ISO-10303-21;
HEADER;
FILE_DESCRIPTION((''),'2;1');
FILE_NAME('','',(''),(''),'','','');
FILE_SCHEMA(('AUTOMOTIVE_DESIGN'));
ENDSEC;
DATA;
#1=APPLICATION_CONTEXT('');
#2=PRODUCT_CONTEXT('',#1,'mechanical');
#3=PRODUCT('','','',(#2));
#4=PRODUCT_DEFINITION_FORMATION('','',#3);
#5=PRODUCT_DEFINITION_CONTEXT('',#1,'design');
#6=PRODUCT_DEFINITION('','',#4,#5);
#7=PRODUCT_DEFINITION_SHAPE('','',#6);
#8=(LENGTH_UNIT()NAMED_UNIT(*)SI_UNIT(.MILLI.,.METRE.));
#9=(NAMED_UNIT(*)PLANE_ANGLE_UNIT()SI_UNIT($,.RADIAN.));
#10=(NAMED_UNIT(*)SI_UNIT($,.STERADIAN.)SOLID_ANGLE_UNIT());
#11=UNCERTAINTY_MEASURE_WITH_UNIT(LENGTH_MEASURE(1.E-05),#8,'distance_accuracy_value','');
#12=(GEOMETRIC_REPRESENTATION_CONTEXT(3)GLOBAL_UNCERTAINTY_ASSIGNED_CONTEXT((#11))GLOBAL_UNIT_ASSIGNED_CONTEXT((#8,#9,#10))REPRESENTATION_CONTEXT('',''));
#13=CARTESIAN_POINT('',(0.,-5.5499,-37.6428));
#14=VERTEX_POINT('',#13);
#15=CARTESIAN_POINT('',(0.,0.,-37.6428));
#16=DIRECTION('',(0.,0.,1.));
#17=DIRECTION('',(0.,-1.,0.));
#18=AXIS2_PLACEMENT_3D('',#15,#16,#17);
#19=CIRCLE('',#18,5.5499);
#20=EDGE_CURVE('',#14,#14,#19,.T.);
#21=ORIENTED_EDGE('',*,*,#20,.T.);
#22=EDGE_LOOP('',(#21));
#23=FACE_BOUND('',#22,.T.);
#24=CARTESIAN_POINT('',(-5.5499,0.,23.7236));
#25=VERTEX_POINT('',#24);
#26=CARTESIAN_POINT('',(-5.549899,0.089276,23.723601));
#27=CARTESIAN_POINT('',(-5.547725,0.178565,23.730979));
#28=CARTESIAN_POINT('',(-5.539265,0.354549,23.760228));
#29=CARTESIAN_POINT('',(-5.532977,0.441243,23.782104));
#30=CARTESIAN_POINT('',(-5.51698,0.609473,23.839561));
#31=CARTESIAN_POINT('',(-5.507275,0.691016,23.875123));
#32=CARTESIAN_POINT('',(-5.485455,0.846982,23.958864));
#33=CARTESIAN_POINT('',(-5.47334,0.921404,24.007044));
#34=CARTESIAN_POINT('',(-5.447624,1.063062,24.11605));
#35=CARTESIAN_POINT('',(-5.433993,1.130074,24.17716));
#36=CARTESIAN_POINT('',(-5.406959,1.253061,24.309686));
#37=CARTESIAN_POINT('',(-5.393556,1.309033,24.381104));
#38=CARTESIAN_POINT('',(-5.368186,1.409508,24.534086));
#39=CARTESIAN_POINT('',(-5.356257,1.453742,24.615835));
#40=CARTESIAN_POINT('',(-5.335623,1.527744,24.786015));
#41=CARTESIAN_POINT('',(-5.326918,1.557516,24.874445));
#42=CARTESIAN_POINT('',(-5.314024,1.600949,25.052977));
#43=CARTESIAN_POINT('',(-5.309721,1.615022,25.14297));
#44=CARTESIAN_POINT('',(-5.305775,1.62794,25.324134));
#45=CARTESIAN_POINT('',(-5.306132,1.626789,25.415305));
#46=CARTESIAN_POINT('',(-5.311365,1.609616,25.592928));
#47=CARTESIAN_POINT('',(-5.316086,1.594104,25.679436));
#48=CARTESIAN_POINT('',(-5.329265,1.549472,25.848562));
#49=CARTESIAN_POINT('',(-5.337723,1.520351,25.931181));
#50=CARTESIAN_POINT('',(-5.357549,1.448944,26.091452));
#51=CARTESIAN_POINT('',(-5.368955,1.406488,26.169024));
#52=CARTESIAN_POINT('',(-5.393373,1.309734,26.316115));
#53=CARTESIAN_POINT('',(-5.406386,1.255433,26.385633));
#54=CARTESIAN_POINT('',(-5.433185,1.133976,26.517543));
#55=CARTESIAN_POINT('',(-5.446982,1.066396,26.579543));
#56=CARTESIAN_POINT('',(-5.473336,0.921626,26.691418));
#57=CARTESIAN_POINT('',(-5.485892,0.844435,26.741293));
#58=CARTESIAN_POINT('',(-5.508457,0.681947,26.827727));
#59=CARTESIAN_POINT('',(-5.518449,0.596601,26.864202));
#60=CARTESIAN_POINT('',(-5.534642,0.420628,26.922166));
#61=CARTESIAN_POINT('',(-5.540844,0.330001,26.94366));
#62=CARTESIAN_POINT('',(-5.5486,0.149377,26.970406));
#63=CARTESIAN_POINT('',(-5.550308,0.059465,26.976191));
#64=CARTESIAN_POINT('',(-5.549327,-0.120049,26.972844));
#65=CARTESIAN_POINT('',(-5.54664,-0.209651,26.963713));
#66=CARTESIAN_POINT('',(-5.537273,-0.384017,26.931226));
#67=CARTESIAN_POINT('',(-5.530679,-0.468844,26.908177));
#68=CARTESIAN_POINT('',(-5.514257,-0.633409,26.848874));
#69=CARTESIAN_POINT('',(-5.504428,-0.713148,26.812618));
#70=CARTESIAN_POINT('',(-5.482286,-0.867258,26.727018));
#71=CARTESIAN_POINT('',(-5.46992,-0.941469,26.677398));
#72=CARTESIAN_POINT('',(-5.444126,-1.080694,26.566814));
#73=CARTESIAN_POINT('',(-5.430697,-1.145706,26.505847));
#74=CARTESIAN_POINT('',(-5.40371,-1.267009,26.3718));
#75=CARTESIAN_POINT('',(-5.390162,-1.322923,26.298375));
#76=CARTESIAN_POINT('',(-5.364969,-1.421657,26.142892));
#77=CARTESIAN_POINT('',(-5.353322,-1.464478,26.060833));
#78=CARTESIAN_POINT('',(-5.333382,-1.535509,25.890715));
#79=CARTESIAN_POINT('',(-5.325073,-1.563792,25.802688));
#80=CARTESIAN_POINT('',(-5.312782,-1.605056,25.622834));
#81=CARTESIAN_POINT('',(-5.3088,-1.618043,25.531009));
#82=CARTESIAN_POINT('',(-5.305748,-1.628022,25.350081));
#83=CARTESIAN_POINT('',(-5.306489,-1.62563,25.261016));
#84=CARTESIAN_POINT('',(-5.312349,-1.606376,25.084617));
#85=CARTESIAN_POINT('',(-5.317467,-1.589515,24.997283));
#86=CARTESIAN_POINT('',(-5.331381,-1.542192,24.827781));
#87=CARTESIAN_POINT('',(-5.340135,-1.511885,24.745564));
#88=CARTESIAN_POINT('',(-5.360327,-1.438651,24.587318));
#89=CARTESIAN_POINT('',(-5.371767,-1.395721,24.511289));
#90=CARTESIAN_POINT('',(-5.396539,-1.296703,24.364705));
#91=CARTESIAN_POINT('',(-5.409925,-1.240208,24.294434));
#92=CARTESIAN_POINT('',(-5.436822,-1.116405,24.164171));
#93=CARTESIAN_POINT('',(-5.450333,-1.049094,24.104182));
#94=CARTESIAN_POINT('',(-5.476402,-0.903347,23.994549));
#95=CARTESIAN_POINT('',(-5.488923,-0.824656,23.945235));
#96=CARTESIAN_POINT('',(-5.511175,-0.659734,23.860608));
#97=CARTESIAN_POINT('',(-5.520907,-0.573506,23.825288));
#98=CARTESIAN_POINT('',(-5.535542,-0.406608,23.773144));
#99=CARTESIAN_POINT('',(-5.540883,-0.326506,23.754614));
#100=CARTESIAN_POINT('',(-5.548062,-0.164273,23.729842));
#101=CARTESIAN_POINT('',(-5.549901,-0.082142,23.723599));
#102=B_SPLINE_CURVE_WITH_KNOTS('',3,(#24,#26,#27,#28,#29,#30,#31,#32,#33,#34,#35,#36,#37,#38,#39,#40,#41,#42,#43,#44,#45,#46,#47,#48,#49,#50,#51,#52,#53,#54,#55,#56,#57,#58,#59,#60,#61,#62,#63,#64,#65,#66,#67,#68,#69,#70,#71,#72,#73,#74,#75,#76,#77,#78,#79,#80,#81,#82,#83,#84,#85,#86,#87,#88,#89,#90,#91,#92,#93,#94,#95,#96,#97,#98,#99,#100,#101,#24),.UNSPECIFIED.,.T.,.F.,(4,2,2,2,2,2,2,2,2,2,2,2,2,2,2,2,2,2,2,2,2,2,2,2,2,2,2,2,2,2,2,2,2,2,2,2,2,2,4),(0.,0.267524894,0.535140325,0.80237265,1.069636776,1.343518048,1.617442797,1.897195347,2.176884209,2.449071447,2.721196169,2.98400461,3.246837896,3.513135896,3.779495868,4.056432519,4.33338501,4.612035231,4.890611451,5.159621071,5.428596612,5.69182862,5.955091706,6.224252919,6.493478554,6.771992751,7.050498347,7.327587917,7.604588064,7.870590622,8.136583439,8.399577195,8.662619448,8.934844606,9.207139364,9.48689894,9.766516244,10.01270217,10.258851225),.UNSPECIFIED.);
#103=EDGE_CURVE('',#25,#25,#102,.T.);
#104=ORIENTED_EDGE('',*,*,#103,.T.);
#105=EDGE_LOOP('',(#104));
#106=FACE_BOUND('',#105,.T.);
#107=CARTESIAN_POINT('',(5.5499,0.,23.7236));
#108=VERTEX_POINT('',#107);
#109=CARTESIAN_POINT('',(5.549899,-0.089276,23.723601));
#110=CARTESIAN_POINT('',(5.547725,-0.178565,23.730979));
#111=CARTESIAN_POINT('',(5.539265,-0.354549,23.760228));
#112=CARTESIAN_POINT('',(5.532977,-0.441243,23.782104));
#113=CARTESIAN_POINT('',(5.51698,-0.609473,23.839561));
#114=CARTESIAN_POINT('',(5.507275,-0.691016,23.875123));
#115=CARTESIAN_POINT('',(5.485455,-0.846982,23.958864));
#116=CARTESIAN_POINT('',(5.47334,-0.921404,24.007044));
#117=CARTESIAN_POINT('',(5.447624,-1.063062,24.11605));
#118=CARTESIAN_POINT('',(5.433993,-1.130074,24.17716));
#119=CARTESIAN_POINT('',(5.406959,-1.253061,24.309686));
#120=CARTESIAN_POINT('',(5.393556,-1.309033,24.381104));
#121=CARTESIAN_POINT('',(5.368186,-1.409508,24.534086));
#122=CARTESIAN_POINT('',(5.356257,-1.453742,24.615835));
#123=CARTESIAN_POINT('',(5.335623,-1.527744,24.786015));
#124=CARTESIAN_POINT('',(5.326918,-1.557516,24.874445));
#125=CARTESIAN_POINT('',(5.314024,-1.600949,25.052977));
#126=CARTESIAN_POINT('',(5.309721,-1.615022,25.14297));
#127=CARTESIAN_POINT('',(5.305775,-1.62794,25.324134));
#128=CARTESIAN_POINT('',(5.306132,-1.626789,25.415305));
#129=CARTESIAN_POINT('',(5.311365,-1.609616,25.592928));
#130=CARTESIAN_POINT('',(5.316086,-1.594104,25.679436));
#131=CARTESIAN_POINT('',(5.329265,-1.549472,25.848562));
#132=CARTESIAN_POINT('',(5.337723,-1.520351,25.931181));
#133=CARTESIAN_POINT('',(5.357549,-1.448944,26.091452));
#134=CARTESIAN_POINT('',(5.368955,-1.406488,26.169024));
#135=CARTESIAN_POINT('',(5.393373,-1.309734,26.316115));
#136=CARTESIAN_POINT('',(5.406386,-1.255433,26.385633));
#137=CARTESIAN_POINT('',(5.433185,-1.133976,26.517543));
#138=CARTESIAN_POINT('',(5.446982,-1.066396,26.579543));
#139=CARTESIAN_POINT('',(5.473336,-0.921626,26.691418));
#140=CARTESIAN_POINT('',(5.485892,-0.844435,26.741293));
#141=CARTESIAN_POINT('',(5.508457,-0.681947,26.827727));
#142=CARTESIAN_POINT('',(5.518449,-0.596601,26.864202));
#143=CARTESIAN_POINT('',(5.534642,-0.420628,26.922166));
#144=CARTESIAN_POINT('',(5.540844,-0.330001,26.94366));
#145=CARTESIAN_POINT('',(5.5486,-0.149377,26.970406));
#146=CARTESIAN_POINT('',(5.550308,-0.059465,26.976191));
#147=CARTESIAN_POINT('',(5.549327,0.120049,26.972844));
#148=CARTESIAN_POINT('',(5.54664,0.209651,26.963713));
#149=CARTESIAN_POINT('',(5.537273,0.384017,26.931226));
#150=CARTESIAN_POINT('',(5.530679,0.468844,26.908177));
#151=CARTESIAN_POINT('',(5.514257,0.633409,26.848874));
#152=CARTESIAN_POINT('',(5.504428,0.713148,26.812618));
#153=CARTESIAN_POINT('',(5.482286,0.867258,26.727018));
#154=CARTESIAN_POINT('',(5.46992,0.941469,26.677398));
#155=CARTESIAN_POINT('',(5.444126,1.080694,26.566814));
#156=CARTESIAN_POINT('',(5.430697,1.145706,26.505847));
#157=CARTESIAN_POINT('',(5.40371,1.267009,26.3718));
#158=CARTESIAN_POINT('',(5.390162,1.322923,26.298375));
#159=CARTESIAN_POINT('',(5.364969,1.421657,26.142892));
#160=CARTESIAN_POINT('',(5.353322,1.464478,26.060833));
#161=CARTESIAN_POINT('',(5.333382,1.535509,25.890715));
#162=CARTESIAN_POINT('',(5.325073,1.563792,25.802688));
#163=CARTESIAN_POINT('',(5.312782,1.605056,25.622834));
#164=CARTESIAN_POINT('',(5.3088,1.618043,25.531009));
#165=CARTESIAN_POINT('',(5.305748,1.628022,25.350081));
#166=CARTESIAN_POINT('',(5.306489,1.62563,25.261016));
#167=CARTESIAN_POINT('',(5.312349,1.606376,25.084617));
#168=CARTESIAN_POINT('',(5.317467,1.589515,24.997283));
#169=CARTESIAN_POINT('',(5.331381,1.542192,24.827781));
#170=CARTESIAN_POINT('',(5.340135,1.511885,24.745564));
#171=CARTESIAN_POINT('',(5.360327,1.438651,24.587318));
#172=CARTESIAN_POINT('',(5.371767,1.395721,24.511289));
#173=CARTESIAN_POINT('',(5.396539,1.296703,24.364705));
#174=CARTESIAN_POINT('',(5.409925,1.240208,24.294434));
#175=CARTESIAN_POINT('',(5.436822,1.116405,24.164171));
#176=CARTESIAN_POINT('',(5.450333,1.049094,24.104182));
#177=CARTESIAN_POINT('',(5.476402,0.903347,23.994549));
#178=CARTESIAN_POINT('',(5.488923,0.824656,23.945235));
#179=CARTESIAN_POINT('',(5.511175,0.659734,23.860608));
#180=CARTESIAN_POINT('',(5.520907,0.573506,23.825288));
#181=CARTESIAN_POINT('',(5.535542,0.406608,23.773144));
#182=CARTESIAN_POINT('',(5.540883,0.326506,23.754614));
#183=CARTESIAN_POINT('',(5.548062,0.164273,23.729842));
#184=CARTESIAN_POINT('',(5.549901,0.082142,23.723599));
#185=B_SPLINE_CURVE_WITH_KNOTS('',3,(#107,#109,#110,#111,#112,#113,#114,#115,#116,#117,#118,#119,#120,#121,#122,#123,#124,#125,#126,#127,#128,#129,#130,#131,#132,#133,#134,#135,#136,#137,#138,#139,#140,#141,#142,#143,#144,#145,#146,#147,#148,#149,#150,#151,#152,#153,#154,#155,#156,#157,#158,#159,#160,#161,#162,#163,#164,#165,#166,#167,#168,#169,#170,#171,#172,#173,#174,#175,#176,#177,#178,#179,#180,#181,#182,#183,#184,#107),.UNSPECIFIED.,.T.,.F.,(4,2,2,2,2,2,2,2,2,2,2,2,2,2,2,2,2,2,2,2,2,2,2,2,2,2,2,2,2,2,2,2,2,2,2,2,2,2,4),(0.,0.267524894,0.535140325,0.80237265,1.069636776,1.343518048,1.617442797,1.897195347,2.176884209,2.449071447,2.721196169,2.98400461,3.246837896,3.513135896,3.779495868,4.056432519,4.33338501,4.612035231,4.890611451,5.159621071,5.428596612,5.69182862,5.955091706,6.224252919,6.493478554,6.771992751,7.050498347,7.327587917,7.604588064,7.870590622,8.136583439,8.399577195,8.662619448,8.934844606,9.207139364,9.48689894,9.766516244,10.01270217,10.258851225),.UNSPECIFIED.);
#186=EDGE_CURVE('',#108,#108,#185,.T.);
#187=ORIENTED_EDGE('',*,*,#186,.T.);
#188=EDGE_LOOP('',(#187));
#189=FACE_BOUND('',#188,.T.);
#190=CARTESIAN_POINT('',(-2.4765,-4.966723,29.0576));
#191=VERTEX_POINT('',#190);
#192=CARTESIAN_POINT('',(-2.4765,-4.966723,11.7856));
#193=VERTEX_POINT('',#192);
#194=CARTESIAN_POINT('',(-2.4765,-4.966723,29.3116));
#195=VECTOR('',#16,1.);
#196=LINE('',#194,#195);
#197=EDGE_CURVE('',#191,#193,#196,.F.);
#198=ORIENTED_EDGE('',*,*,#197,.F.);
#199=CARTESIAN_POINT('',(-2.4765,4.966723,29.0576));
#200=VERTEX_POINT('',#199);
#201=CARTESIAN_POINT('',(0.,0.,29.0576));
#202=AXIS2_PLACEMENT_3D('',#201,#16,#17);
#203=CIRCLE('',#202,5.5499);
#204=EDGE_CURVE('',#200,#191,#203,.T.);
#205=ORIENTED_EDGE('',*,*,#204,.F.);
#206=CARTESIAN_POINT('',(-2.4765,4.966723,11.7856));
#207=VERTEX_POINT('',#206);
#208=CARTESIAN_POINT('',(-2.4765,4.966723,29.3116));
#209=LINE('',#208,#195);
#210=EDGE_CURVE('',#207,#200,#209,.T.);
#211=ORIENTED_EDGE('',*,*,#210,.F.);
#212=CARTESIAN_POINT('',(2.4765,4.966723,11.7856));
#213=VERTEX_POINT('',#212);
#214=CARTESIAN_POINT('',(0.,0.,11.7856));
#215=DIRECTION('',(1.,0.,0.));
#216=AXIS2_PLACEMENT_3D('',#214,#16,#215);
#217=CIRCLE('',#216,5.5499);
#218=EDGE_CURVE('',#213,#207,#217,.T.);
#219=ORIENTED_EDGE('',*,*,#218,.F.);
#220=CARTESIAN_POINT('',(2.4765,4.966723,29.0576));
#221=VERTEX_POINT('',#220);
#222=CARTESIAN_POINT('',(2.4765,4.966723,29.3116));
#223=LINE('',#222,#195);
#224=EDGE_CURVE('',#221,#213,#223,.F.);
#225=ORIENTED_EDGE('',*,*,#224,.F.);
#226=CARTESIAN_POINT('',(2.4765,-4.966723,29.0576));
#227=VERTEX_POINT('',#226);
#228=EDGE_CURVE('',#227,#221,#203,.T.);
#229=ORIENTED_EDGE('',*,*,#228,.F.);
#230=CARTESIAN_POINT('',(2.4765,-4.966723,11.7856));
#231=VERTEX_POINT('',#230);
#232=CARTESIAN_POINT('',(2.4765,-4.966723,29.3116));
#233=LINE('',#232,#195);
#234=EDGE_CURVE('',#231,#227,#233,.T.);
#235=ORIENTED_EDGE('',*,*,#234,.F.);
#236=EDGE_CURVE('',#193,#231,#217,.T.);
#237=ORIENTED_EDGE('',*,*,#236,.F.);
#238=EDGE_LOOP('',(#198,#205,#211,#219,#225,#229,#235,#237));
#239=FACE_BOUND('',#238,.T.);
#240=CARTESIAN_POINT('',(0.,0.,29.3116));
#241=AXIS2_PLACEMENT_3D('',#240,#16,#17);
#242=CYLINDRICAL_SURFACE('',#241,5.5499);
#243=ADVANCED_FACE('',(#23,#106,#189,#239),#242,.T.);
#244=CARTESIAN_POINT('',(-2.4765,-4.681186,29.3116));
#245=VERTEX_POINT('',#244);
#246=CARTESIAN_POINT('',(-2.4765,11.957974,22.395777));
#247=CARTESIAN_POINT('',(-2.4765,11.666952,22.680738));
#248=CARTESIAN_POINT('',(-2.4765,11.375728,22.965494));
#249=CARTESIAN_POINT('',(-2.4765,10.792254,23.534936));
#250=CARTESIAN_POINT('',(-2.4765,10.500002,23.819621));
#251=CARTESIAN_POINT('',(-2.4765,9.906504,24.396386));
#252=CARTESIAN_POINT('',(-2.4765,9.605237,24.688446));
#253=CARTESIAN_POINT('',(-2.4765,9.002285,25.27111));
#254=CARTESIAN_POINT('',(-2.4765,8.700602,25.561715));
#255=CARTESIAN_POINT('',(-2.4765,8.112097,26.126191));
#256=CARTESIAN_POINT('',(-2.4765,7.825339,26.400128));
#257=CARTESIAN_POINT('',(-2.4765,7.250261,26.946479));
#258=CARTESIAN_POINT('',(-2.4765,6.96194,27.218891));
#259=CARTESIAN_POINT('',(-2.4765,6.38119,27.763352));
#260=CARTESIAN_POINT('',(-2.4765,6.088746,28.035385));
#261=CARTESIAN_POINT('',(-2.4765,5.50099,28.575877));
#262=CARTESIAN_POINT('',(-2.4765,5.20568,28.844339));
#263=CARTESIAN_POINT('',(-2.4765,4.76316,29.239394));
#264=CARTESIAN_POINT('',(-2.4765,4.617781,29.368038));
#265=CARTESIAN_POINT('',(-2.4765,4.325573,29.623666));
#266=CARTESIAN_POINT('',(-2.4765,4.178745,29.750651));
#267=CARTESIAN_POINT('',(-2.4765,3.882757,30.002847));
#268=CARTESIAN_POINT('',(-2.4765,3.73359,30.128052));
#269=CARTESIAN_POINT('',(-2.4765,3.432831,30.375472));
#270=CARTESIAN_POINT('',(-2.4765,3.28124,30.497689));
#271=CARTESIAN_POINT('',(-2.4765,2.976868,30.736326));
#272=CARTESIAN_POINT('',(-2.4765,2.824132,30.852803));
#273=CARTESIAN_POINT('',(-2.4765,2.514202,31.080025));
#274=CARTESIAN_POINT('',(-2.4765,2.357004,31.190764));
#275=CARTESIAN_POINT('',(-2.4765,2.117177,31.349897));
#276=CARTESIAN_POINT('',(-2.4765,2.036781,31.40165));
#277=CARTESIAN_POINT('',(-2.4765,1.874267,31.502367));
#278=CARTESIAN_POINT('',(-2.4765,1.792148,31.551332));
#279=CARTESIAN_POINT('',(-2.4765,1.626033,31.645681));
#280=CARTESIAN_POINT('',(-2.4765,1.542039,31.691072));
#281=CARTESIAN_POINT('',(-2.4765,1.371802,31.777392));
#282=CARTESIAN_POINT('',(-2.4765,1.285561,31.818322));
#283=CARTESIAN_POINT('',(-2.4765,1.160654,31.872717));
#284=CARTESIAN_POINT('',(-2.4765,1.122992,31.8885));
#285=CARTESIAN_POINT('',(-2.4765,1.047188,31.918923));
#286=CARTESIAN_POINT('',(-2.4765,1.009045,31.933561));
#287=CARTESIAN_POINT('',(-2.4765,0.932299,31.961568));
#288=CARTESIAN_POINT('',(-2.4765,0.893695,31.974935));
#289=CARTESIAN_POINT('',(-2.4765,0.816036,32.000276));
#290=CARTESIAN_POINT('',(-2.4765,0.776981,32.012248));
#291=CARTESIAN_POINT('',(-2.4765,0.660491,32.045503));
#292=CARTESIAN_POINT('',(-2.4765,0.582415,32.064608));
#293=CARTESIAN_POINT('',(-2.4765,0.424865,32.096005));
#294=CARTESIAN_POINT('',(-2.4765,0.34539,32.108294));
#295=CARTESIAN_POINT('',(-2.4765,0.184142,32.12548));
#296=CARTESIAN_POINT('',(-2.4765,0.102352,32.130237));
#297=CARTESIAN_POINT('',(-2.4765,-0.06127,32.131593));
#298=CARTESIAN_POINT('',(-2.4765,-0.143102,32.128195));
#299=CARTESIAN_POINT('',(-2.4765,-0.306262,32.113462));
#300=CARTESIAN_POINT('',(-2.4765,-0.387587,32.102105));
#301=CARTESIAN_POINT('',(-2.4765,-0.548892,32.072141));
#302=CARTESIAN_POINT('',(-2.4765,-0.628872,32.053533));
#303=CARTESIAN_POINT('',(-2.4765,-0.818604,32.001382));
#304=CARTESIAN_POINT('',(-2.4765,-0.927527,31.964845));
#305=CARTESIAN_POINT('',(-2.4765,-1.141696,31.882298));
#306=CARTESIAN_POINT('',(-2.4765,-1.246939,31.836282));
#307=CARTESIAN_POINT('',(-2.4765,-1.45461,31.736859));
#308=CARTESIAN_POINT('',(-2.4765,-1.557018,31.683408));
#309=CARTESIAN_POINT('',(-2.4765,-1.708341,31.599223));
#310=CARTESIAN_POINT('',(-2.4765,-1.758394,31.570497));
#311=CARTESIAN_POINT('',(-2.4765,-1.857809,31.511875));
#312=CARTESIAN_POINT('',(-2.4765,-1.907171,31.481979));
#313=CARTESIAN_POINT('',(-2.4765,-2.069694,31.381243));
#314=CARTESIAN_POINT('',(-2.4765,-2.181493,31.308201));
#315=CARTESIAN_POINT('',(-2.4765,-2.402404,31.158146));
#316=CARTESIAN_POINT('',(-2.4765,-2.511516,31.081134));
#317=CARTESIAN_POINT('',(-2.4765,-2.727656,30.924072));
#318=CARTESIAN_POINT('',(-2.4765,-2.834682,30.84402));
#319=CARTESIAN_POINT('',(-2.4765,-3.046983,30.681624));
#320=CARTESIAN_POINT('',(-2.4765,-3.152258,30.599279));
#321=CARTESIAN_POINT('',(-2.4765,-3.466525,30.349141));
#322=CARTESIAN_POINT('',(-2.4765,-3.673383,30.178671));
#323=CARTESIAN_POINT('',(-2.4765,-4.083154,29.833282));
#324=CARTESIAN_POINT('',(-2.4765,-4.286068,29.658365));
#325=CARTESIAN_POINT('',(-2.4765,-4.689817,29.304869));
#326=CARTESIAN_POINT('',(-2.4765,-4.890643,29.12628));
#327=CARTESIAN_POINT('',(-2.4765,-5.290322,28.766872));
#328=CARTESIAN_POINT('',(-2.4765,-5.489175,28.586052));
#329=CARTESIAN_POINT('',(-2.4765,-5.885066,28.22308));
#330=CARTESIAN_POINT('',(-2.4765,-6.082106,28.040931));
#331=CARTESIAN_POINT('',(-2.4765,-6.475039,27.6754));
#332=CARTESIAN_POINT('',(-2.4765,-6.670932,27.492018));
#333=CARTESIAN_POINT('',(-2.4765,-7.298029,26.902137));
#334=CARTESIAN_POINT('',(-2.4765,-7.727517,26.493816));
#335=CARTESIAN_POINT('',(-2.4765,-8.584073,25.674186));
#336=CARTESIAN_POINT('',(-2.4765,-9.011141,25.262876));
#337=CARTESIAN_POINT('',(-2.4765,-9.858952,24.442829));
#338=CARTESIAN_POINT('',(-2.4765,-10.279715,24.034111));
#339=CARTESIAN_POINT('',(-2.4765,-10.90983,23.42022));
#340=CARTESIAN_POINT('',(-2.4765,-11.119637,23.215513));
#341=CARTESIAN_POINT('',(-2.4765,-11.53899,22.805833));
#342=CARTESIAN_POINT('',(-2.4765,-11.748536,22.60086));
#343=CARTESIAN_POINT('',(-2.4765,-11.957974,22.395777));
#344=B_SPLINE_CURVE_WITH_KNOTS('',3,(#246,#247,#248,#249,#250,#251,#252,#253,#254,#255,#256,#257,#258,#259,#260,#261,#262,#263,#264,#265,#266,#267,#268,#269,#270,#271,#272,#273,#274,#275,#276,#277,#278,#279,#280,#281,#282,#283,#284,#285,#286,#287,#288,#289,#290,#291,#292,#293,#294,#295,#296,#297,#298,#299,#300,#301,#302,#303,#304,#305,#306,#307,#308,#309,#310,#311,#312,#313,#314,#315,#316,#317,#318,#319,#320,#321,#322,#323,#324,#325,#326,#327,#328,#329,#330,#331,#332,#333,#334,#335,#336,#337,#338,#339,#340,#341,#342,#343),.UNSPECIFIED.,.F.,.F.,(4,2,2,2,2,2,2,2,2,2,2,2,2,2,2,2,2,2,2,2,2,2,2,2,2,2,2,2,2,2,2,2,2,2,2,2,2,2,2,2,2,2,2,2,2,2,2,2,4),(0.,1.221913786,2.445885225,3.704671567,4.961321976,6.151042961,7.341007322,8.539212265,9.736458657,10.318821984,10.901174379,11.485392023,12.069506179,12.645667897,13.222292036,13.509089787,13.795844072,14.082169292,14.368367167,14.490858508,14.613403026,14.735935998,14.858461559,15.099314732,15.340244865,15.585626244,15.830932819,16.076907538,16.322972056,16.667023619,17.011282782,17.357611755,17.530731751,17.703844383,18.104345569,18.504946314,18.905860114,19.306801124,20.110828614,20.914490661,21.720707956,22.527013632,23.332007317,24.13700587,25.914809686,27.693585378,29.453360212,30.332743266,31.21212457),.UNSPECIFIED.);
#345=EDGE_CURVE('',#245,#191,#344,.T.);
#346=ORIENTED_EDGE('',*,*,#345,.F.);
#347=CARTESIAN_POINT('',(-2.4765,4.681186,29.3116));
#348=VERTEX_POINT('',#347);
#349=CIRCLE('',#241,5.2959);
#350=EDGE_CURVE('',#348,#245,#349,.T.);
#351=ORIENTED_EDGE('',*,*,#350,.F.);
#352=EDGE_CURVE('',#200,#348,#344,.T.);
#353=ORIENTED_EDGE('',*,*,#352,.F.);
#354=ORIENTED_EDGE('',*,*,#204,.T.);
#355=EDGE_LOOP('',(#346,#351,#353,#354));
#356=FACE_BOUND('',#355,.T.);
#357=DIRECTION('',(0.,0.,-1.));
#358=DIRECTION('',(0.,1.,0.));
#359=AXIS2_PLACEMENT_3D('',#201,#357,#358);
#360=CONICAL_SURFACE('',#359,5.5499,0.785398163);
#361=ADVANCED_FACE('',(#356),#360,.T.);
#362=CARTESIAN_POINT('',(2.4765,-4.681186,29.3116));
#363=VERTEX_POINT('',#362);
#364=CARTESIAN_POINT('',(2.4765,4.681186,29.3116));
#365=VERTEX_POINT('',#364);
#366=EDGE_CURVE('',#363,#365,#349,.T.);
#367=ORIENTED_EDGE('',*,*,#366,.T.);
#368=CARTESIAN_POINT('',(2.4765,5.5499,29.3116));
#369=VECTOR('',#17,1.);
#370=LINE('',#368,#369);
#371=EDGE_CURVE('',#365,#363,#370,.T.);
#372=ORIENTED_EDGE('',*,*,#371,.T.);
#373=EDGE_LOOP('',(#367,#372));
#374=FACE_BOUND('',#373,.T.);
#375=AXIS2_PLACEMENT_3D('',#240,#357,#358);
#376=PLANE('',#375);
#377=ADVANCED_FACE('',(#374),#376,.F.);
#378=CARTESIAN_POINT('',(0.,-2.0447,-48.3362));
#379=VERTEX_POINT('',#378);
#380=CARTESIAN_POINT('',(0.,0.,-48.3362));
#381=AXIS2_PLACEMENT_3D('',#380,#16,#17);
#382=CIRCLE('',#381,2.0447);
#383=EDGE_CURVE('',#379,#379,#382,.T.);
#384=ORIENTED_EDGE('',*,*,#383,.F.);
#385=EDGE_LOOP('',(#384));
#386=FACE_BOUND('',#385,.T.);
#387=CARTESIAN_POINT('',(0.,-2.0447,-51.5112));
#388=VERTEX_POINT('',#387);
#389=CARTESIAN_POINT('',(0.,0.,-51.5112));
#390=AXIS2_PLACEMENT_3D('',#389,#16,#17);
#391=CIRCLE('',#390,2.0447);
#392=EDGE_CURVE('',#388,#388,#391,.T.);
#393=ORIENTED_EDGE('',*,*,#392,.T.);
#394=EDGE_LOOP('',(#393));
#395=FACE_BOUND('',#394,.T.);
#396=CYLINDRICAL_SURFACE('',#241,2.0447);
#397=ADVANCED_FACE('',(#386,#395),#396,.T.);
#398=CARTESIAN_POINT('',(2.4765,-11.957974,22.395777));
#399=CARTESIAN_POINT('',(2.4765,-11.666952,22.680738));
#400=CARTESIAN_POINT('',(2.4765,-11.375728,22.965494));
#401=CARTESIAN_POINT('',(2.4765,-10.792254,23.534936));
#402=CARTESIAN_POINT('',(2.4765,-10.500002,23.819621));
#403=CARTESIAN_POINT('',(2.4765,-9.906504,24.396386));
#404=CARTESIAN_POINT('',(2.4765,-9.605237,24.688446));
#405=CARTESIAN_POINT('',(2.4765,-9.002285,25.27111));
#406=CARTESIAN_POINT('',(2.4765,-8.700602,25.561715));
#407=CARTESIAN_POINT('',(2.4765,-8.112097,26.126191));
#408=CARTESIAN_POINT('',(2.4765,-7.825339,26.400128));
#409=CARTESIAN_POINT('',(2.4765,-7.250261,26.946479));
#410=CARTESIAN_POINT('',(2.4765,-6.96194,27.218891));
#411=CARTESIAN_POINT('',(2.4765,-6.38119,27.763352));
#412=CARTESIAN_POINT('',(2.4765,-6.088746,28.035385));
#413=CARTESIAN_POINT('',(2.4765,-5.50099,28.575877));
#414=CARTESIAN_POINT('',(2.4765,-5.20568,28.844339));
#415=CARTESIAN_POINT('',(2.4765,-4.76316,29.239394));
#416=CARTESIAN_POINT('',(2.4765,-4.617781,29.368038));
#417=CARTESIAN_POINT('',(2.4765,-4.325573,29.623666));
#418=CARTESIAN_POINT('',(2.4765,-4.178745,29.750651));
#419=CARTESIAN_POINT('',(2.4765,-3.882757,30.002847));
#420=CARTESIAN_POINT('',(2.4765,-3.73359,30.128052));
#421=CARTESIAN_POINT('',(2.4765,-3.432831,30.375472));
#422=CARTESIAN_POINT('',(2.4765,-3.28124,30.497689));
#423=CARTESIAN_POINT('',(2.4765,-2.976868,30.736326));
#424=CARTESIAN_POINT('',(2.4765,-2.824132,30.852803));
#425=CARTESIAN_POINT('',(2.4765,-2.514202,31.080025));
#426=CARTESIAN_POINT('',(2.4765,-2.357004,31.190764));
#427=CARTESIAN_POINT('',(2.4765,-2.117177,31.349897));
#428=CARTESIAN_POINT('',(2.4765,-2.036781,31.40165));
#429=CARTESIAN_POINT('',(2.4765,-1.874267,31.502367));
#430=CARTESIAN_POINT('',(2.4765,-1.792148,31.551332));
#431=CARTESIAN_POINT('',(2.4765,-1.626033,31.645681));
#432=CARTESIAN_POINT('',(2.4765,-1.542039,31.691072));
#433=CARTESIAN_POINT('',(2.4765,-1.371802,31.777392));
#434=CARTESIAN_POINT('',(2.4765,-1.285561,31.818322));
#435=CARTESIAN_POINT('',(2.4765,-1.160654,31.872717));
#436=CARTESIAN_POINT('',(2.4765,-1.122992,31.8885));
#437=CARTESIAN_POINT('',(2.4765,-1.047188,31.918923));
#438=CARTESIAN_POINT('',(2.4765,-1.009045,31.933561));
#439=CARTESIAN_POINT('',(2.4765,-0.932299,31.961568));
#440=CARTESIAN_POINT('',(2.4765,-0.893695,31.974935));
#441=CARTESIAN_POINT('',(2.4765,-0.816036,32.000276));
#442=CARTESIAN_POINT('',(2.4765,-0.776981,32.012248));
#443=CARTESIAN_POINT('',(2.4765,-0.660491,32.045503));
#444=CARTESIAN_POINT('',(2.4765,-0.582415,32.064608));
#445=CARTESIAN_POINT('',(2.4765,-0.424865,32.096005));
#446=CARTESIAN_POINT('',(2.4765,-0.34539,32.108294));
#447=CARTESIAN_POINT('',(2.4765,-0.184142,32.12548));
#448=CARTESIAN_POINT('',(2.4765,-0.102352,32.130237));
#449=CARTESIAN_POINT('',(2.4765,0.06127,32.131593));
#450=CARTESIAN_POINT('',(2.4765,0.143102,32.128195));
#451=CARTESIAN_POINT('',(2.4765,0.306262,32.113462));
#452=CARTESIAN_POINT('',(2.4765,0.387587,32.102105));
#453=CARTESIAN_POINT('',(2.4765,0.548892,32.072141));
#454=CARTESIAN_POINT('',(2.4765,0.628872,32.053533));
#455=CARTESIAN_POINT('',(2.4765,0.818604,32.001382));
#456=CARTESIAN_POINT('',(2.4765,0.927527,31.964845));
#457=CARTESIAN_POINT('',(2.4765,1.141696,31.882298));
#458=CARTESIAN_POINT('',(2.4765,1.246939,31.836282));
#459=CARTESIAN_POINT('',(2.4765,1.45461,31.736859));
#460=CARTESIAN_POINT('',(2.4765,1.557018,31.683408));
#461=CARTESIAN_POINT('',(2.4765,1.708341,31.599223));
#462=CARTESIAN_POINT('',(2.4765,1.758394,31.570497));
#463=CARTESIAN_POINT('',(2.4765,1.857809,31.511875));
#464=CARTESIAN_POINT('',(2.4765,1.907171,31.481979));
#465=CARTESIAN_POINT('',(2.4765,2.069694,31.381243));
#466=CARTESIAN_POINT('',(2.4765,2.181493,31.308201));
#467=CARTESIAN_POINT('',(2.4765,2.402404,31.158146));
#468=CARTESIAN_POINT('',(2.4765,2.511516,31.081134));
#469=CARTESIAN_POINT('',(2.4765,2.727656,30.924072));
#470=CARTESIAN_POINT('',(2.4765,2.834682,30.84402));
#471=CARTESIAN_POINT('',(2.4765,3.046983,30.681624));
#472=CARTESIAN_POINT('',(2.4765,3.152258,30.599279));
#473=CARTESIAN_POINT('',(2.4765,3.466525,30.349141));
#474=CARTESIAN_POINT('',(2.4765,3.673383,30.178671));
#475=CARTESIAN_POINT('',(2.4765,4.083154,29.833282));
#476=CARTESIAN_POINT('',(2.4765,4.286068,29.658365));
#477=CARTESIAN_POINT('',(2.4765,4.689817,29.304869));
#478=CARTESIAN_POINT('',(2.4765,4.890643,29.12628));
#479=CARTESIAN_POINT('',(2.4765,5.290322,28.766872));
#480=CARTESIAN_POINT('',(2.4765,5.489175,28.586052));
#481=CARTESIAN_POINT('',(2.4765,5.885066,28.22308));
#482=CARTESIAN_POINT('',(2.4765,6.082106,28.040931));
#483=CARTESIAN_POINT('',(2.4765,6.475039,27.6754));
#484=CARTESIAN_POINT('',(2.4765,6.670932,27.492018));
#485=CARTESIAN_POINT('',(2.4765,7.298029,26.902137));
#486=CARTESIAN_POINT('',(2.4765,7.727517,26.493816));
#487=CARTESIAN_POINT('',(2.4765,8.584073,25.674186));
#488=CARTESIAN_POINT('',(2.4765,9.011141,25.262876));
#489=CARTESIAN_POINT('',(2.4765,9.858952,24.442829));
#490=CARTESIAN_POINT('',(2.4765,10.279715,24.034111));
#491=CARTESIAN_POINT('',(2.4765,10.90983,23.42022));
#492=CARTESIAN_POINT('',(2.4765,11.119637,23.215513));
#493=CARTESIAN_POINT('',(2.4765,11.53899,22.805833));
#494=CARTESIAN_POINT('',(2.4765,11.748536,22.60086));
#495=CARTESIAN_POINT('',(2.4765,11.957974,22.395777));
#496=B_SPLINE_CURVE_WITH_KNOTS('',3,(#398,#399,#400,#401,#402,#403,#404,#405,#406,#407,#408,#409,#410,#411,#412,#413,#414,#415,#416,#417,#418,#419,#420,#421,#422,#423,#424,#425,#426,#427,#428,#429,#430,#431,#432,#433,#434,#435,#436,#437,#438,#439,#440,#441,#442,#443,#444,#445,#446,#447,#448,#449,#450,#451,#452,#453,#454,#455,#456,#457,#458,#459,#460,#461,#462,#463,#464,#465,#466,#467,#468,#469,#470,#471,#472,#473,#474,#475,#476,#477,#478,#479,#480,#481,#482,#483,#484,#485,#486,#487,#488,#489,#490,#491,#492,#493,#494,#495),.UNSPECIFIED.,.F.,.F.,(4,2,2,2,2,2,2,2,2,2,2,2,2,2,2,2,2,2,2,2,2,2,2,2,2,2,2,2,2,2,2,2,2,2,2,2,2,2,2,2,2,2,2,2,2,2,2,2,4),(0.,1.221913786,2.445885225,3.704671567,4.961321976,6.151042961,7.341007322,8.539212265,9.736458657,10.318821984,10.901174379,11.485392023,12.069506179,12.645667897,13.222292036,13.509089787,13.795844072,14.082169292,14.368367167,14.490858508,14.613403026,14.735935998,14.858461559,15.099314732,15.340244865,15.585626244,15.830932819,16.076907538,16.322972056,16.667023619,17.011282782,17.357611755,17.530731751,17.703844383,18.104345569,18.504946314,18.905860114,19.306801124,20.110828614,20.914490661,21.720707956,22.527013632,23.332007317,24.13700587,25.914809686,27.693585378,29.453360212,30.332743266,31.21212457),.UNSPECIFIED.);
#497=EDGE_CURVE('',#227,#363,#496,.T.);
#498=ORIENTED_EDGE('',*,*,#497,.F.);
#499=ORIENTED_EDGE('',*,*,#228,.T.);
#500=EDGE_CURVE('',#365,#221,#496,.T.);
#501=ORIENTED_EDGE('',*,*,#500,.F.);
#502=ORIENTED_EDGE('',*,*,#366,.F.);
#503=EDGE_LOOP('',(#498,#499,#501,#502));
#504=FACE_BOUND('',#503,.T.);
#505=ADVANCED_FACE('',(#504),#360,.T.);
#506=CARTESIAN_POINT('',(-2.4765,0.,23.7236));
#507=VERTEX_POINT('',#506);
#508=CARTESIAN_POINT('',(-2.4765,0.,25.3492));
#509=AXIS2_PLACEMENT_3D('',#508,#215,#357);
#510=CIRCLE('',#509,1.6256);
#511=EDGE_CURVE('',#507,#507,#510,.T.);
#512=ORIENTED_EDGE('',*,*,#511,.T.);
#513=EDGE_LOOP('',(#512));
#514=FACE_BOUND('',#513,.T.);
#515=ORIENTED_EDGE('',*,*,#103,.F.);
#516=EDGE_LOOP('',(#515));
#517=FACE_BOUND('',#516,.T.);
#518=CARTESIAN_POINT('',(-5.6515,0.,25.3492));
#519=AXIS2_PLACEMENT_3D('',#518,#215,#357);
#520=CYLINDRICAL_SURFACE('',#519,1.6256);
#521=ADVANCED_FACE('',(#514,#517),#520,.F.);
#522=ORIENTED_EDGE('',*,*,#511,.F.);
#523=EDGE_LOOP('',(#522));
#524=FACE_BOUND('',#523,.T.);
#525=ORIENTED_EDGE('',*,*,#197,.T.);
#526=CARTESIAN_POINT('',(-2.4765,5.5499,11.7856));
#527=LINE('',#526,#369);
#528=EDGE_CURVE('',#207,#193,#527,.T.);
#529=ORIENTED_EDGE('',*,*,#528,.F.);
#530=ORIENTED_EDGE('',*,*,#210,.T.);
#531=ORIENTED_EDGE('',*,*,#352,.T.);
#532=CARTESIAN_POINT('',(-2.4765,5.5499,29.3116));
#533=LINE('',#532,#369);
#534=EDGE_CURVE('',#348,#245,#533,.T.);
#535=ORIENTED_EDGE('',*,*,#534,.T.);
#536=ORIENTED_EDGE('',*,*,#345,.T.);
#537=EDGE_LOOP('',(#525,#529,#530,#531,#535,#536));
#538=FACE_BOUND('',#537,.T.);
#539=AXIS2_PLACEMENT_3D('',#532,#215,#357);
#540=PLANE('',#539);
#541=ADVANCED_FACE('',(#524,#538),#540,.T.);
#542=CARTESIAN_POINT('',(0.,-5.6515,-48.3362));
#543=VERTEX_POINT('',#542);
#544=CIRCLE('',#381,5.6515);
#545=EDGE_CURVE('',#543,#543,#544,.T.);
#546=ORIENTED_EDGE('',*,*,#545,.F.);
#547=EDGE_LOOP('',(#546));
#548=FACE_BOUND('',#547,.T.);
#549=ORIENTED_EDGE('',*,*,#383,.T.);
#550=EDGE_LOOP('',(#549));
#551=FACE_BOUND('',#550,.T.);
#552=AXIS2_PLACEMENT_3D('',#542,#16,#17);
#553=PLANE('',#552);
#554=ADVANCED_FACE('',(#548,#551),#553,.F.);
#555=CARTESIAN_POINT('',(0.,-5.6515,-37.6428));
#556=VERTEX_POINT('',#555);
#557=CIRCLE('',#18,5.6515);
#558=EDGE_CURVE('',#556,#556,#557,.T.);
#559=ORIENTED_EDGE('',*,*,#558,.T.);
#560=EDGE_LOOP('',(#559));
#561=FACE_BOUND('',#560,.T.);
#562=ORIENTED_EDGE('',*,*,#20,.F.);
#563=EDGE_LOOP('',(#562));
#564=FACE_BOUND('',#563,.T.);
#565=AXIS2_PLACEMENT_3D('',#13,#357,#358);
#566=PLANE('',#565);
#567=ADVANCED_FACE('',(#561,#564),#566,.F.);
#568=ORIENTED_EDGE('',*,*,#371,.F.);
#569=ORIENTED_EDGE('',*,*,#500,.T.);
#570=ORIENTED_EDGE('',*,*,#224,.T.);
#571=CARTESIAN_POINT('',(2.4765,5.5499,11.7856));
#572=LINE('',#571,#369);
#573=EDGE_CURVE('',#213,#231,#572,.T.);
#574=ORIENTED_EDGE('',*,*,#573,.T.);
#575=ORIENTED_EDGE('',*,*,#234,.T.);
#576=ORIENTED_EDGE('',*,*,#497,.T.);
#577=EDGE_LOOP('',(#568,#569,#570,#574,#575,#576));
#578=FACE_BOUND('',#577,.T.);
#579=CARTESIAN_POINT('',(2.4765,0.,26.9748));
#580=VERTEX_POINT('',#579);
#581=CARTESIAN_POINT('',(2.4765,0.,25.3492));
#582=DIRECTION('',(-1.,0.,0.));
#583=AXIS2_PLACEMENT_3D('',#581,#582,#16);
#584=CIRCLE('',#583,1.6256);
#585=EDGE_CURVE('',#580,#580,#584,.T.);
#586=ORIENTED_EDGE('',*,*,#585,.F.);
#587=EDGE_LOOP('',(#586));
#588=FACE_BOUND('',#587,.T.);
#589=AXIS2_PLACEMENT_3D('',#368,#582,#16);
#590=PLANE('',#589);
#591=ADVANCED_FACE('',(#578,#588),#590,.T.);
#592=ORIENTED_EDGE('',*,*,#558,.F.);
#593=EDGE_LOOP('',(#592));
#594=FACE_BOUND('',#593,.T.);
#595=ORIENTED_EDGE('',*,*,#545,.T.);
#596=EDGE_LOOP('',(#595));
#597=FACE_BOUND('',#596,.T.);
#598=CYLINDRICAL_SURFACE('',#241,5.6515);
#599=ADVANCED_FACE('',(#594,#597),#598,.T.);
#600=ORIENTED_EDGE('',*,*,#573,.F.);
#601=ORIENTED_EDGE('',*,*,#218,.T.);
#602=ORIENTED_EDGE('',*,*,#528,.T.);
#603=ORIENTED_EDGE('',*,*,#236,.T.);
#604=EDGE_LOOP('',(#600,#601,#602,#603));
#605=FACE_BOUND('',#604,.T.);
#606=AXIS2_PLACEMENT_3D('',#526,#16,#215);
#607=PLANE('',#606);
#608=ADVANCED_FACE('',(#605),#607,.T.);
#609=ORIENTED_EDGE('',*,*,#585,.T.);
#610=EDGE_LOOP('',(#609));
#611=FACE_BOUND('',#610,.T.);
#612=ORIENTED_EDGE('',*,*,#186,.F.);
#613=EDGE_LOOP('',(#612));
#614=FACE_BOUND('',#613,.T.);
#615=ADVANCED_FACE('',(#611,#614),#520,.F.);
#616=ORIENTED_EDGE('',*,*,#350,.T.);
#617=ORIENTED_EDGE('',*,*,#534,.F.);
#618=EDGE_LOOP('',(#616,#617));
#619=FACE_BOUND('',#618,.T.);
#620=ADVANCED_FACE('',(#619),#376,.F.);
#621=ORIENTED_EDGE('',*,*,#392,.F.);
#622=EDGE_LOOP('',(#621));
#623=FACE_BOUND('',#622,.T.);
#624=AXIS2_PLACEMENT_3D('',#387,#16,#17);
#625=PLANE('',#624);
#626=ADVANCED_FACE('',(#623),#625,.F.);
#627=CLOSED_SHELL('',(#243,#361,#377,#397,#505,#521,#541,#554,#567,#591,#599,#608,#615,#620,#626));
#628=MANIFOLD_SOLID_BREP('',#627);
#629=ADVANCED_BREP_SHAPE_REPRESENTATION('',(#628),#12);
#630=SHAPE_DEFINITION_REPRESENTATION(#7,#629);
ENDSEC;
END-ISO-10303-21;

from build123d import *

# Parameters (mm, degrees)
CUT_EXTRUDE4_DEPTH      = 5.5499
CUT_EXTRUDE4_DEPTH_BACK = 5.5499
SKETCH18_W              = 4.953
SKETCH18_H              = 17.526
CUT_EXTRUDE5_DEPTH      = 53.127561136
CUT_EXTRUDE5_DEPTH_BACK = 53.127561136
SKETCH19_R              = 1.6256


with BuildPart() as part:
    # Sketch17 → Revolve2 (revolve)
    with BuildSketch(Plane(origin=(0, 0, 0), x_dir=(0, 0, -1), z_dir=(1, 0, 0)), mode=Mode.PRIVATE) as revolve2_sk:
        Polygon((-29.3116, 0), (51.5112, 0), (51.5112, 2.0447), (48.3362, 2.0447), (48.3362, 5.6515), (37.6428, 5.6515), (37.6428, 5.5499), (-29.0576, 5.5499), (-29.3116, 5.2959), align=None)
    revolve(revolve2_sk.sketch.rotate(Axis((0, 0, 29.3116), (0, 0, -1)), 180), axis=Axis((0, 0, 29.3116), (0, 0, -1)))

    # Sketch18 → Cut-Extrude4 (cut, two sides: drawn at the far end of the back side and taken through both)
    with BuildSketch(Plane(origin=(0, 0, 0), x_dir=(1, 0, 0), z_dir=(0, 1, 0)).offset(-CUT_EXTRUDE4_DEPTH_BACK)):
        with Locations((0, -20.5486)):
            Rectangle(SKETCH18_W, SKETCH18_H)
    extrude(amount=CUT_EXTRUDE4_DEPTH + CUT_EXTRUDE4_DEPTH_BACK, mode=Mode.SUBTRACT)

    # Sketch19 → Cut-Extrude5 (cut, two sides: drawn at the far end of the back side and taken through both)
    with BuildSketch(Plane(origin=(0, 0, 0), x_dir=(0, 0, -1), z_dir=(1, 0, 0)).offset(-CUT_EXTRUDE5_DEPTH_BACK)):
        with Locations((-25.3492, 0)):
            Circle(SKETCH19_R)
    extrude(amount=CUT_EXTRUDE5_DEPTH + CUT_EXTRUDE5_DEPTH_BACK, mode=Mode.SUBTRACT)


solid = part.part
